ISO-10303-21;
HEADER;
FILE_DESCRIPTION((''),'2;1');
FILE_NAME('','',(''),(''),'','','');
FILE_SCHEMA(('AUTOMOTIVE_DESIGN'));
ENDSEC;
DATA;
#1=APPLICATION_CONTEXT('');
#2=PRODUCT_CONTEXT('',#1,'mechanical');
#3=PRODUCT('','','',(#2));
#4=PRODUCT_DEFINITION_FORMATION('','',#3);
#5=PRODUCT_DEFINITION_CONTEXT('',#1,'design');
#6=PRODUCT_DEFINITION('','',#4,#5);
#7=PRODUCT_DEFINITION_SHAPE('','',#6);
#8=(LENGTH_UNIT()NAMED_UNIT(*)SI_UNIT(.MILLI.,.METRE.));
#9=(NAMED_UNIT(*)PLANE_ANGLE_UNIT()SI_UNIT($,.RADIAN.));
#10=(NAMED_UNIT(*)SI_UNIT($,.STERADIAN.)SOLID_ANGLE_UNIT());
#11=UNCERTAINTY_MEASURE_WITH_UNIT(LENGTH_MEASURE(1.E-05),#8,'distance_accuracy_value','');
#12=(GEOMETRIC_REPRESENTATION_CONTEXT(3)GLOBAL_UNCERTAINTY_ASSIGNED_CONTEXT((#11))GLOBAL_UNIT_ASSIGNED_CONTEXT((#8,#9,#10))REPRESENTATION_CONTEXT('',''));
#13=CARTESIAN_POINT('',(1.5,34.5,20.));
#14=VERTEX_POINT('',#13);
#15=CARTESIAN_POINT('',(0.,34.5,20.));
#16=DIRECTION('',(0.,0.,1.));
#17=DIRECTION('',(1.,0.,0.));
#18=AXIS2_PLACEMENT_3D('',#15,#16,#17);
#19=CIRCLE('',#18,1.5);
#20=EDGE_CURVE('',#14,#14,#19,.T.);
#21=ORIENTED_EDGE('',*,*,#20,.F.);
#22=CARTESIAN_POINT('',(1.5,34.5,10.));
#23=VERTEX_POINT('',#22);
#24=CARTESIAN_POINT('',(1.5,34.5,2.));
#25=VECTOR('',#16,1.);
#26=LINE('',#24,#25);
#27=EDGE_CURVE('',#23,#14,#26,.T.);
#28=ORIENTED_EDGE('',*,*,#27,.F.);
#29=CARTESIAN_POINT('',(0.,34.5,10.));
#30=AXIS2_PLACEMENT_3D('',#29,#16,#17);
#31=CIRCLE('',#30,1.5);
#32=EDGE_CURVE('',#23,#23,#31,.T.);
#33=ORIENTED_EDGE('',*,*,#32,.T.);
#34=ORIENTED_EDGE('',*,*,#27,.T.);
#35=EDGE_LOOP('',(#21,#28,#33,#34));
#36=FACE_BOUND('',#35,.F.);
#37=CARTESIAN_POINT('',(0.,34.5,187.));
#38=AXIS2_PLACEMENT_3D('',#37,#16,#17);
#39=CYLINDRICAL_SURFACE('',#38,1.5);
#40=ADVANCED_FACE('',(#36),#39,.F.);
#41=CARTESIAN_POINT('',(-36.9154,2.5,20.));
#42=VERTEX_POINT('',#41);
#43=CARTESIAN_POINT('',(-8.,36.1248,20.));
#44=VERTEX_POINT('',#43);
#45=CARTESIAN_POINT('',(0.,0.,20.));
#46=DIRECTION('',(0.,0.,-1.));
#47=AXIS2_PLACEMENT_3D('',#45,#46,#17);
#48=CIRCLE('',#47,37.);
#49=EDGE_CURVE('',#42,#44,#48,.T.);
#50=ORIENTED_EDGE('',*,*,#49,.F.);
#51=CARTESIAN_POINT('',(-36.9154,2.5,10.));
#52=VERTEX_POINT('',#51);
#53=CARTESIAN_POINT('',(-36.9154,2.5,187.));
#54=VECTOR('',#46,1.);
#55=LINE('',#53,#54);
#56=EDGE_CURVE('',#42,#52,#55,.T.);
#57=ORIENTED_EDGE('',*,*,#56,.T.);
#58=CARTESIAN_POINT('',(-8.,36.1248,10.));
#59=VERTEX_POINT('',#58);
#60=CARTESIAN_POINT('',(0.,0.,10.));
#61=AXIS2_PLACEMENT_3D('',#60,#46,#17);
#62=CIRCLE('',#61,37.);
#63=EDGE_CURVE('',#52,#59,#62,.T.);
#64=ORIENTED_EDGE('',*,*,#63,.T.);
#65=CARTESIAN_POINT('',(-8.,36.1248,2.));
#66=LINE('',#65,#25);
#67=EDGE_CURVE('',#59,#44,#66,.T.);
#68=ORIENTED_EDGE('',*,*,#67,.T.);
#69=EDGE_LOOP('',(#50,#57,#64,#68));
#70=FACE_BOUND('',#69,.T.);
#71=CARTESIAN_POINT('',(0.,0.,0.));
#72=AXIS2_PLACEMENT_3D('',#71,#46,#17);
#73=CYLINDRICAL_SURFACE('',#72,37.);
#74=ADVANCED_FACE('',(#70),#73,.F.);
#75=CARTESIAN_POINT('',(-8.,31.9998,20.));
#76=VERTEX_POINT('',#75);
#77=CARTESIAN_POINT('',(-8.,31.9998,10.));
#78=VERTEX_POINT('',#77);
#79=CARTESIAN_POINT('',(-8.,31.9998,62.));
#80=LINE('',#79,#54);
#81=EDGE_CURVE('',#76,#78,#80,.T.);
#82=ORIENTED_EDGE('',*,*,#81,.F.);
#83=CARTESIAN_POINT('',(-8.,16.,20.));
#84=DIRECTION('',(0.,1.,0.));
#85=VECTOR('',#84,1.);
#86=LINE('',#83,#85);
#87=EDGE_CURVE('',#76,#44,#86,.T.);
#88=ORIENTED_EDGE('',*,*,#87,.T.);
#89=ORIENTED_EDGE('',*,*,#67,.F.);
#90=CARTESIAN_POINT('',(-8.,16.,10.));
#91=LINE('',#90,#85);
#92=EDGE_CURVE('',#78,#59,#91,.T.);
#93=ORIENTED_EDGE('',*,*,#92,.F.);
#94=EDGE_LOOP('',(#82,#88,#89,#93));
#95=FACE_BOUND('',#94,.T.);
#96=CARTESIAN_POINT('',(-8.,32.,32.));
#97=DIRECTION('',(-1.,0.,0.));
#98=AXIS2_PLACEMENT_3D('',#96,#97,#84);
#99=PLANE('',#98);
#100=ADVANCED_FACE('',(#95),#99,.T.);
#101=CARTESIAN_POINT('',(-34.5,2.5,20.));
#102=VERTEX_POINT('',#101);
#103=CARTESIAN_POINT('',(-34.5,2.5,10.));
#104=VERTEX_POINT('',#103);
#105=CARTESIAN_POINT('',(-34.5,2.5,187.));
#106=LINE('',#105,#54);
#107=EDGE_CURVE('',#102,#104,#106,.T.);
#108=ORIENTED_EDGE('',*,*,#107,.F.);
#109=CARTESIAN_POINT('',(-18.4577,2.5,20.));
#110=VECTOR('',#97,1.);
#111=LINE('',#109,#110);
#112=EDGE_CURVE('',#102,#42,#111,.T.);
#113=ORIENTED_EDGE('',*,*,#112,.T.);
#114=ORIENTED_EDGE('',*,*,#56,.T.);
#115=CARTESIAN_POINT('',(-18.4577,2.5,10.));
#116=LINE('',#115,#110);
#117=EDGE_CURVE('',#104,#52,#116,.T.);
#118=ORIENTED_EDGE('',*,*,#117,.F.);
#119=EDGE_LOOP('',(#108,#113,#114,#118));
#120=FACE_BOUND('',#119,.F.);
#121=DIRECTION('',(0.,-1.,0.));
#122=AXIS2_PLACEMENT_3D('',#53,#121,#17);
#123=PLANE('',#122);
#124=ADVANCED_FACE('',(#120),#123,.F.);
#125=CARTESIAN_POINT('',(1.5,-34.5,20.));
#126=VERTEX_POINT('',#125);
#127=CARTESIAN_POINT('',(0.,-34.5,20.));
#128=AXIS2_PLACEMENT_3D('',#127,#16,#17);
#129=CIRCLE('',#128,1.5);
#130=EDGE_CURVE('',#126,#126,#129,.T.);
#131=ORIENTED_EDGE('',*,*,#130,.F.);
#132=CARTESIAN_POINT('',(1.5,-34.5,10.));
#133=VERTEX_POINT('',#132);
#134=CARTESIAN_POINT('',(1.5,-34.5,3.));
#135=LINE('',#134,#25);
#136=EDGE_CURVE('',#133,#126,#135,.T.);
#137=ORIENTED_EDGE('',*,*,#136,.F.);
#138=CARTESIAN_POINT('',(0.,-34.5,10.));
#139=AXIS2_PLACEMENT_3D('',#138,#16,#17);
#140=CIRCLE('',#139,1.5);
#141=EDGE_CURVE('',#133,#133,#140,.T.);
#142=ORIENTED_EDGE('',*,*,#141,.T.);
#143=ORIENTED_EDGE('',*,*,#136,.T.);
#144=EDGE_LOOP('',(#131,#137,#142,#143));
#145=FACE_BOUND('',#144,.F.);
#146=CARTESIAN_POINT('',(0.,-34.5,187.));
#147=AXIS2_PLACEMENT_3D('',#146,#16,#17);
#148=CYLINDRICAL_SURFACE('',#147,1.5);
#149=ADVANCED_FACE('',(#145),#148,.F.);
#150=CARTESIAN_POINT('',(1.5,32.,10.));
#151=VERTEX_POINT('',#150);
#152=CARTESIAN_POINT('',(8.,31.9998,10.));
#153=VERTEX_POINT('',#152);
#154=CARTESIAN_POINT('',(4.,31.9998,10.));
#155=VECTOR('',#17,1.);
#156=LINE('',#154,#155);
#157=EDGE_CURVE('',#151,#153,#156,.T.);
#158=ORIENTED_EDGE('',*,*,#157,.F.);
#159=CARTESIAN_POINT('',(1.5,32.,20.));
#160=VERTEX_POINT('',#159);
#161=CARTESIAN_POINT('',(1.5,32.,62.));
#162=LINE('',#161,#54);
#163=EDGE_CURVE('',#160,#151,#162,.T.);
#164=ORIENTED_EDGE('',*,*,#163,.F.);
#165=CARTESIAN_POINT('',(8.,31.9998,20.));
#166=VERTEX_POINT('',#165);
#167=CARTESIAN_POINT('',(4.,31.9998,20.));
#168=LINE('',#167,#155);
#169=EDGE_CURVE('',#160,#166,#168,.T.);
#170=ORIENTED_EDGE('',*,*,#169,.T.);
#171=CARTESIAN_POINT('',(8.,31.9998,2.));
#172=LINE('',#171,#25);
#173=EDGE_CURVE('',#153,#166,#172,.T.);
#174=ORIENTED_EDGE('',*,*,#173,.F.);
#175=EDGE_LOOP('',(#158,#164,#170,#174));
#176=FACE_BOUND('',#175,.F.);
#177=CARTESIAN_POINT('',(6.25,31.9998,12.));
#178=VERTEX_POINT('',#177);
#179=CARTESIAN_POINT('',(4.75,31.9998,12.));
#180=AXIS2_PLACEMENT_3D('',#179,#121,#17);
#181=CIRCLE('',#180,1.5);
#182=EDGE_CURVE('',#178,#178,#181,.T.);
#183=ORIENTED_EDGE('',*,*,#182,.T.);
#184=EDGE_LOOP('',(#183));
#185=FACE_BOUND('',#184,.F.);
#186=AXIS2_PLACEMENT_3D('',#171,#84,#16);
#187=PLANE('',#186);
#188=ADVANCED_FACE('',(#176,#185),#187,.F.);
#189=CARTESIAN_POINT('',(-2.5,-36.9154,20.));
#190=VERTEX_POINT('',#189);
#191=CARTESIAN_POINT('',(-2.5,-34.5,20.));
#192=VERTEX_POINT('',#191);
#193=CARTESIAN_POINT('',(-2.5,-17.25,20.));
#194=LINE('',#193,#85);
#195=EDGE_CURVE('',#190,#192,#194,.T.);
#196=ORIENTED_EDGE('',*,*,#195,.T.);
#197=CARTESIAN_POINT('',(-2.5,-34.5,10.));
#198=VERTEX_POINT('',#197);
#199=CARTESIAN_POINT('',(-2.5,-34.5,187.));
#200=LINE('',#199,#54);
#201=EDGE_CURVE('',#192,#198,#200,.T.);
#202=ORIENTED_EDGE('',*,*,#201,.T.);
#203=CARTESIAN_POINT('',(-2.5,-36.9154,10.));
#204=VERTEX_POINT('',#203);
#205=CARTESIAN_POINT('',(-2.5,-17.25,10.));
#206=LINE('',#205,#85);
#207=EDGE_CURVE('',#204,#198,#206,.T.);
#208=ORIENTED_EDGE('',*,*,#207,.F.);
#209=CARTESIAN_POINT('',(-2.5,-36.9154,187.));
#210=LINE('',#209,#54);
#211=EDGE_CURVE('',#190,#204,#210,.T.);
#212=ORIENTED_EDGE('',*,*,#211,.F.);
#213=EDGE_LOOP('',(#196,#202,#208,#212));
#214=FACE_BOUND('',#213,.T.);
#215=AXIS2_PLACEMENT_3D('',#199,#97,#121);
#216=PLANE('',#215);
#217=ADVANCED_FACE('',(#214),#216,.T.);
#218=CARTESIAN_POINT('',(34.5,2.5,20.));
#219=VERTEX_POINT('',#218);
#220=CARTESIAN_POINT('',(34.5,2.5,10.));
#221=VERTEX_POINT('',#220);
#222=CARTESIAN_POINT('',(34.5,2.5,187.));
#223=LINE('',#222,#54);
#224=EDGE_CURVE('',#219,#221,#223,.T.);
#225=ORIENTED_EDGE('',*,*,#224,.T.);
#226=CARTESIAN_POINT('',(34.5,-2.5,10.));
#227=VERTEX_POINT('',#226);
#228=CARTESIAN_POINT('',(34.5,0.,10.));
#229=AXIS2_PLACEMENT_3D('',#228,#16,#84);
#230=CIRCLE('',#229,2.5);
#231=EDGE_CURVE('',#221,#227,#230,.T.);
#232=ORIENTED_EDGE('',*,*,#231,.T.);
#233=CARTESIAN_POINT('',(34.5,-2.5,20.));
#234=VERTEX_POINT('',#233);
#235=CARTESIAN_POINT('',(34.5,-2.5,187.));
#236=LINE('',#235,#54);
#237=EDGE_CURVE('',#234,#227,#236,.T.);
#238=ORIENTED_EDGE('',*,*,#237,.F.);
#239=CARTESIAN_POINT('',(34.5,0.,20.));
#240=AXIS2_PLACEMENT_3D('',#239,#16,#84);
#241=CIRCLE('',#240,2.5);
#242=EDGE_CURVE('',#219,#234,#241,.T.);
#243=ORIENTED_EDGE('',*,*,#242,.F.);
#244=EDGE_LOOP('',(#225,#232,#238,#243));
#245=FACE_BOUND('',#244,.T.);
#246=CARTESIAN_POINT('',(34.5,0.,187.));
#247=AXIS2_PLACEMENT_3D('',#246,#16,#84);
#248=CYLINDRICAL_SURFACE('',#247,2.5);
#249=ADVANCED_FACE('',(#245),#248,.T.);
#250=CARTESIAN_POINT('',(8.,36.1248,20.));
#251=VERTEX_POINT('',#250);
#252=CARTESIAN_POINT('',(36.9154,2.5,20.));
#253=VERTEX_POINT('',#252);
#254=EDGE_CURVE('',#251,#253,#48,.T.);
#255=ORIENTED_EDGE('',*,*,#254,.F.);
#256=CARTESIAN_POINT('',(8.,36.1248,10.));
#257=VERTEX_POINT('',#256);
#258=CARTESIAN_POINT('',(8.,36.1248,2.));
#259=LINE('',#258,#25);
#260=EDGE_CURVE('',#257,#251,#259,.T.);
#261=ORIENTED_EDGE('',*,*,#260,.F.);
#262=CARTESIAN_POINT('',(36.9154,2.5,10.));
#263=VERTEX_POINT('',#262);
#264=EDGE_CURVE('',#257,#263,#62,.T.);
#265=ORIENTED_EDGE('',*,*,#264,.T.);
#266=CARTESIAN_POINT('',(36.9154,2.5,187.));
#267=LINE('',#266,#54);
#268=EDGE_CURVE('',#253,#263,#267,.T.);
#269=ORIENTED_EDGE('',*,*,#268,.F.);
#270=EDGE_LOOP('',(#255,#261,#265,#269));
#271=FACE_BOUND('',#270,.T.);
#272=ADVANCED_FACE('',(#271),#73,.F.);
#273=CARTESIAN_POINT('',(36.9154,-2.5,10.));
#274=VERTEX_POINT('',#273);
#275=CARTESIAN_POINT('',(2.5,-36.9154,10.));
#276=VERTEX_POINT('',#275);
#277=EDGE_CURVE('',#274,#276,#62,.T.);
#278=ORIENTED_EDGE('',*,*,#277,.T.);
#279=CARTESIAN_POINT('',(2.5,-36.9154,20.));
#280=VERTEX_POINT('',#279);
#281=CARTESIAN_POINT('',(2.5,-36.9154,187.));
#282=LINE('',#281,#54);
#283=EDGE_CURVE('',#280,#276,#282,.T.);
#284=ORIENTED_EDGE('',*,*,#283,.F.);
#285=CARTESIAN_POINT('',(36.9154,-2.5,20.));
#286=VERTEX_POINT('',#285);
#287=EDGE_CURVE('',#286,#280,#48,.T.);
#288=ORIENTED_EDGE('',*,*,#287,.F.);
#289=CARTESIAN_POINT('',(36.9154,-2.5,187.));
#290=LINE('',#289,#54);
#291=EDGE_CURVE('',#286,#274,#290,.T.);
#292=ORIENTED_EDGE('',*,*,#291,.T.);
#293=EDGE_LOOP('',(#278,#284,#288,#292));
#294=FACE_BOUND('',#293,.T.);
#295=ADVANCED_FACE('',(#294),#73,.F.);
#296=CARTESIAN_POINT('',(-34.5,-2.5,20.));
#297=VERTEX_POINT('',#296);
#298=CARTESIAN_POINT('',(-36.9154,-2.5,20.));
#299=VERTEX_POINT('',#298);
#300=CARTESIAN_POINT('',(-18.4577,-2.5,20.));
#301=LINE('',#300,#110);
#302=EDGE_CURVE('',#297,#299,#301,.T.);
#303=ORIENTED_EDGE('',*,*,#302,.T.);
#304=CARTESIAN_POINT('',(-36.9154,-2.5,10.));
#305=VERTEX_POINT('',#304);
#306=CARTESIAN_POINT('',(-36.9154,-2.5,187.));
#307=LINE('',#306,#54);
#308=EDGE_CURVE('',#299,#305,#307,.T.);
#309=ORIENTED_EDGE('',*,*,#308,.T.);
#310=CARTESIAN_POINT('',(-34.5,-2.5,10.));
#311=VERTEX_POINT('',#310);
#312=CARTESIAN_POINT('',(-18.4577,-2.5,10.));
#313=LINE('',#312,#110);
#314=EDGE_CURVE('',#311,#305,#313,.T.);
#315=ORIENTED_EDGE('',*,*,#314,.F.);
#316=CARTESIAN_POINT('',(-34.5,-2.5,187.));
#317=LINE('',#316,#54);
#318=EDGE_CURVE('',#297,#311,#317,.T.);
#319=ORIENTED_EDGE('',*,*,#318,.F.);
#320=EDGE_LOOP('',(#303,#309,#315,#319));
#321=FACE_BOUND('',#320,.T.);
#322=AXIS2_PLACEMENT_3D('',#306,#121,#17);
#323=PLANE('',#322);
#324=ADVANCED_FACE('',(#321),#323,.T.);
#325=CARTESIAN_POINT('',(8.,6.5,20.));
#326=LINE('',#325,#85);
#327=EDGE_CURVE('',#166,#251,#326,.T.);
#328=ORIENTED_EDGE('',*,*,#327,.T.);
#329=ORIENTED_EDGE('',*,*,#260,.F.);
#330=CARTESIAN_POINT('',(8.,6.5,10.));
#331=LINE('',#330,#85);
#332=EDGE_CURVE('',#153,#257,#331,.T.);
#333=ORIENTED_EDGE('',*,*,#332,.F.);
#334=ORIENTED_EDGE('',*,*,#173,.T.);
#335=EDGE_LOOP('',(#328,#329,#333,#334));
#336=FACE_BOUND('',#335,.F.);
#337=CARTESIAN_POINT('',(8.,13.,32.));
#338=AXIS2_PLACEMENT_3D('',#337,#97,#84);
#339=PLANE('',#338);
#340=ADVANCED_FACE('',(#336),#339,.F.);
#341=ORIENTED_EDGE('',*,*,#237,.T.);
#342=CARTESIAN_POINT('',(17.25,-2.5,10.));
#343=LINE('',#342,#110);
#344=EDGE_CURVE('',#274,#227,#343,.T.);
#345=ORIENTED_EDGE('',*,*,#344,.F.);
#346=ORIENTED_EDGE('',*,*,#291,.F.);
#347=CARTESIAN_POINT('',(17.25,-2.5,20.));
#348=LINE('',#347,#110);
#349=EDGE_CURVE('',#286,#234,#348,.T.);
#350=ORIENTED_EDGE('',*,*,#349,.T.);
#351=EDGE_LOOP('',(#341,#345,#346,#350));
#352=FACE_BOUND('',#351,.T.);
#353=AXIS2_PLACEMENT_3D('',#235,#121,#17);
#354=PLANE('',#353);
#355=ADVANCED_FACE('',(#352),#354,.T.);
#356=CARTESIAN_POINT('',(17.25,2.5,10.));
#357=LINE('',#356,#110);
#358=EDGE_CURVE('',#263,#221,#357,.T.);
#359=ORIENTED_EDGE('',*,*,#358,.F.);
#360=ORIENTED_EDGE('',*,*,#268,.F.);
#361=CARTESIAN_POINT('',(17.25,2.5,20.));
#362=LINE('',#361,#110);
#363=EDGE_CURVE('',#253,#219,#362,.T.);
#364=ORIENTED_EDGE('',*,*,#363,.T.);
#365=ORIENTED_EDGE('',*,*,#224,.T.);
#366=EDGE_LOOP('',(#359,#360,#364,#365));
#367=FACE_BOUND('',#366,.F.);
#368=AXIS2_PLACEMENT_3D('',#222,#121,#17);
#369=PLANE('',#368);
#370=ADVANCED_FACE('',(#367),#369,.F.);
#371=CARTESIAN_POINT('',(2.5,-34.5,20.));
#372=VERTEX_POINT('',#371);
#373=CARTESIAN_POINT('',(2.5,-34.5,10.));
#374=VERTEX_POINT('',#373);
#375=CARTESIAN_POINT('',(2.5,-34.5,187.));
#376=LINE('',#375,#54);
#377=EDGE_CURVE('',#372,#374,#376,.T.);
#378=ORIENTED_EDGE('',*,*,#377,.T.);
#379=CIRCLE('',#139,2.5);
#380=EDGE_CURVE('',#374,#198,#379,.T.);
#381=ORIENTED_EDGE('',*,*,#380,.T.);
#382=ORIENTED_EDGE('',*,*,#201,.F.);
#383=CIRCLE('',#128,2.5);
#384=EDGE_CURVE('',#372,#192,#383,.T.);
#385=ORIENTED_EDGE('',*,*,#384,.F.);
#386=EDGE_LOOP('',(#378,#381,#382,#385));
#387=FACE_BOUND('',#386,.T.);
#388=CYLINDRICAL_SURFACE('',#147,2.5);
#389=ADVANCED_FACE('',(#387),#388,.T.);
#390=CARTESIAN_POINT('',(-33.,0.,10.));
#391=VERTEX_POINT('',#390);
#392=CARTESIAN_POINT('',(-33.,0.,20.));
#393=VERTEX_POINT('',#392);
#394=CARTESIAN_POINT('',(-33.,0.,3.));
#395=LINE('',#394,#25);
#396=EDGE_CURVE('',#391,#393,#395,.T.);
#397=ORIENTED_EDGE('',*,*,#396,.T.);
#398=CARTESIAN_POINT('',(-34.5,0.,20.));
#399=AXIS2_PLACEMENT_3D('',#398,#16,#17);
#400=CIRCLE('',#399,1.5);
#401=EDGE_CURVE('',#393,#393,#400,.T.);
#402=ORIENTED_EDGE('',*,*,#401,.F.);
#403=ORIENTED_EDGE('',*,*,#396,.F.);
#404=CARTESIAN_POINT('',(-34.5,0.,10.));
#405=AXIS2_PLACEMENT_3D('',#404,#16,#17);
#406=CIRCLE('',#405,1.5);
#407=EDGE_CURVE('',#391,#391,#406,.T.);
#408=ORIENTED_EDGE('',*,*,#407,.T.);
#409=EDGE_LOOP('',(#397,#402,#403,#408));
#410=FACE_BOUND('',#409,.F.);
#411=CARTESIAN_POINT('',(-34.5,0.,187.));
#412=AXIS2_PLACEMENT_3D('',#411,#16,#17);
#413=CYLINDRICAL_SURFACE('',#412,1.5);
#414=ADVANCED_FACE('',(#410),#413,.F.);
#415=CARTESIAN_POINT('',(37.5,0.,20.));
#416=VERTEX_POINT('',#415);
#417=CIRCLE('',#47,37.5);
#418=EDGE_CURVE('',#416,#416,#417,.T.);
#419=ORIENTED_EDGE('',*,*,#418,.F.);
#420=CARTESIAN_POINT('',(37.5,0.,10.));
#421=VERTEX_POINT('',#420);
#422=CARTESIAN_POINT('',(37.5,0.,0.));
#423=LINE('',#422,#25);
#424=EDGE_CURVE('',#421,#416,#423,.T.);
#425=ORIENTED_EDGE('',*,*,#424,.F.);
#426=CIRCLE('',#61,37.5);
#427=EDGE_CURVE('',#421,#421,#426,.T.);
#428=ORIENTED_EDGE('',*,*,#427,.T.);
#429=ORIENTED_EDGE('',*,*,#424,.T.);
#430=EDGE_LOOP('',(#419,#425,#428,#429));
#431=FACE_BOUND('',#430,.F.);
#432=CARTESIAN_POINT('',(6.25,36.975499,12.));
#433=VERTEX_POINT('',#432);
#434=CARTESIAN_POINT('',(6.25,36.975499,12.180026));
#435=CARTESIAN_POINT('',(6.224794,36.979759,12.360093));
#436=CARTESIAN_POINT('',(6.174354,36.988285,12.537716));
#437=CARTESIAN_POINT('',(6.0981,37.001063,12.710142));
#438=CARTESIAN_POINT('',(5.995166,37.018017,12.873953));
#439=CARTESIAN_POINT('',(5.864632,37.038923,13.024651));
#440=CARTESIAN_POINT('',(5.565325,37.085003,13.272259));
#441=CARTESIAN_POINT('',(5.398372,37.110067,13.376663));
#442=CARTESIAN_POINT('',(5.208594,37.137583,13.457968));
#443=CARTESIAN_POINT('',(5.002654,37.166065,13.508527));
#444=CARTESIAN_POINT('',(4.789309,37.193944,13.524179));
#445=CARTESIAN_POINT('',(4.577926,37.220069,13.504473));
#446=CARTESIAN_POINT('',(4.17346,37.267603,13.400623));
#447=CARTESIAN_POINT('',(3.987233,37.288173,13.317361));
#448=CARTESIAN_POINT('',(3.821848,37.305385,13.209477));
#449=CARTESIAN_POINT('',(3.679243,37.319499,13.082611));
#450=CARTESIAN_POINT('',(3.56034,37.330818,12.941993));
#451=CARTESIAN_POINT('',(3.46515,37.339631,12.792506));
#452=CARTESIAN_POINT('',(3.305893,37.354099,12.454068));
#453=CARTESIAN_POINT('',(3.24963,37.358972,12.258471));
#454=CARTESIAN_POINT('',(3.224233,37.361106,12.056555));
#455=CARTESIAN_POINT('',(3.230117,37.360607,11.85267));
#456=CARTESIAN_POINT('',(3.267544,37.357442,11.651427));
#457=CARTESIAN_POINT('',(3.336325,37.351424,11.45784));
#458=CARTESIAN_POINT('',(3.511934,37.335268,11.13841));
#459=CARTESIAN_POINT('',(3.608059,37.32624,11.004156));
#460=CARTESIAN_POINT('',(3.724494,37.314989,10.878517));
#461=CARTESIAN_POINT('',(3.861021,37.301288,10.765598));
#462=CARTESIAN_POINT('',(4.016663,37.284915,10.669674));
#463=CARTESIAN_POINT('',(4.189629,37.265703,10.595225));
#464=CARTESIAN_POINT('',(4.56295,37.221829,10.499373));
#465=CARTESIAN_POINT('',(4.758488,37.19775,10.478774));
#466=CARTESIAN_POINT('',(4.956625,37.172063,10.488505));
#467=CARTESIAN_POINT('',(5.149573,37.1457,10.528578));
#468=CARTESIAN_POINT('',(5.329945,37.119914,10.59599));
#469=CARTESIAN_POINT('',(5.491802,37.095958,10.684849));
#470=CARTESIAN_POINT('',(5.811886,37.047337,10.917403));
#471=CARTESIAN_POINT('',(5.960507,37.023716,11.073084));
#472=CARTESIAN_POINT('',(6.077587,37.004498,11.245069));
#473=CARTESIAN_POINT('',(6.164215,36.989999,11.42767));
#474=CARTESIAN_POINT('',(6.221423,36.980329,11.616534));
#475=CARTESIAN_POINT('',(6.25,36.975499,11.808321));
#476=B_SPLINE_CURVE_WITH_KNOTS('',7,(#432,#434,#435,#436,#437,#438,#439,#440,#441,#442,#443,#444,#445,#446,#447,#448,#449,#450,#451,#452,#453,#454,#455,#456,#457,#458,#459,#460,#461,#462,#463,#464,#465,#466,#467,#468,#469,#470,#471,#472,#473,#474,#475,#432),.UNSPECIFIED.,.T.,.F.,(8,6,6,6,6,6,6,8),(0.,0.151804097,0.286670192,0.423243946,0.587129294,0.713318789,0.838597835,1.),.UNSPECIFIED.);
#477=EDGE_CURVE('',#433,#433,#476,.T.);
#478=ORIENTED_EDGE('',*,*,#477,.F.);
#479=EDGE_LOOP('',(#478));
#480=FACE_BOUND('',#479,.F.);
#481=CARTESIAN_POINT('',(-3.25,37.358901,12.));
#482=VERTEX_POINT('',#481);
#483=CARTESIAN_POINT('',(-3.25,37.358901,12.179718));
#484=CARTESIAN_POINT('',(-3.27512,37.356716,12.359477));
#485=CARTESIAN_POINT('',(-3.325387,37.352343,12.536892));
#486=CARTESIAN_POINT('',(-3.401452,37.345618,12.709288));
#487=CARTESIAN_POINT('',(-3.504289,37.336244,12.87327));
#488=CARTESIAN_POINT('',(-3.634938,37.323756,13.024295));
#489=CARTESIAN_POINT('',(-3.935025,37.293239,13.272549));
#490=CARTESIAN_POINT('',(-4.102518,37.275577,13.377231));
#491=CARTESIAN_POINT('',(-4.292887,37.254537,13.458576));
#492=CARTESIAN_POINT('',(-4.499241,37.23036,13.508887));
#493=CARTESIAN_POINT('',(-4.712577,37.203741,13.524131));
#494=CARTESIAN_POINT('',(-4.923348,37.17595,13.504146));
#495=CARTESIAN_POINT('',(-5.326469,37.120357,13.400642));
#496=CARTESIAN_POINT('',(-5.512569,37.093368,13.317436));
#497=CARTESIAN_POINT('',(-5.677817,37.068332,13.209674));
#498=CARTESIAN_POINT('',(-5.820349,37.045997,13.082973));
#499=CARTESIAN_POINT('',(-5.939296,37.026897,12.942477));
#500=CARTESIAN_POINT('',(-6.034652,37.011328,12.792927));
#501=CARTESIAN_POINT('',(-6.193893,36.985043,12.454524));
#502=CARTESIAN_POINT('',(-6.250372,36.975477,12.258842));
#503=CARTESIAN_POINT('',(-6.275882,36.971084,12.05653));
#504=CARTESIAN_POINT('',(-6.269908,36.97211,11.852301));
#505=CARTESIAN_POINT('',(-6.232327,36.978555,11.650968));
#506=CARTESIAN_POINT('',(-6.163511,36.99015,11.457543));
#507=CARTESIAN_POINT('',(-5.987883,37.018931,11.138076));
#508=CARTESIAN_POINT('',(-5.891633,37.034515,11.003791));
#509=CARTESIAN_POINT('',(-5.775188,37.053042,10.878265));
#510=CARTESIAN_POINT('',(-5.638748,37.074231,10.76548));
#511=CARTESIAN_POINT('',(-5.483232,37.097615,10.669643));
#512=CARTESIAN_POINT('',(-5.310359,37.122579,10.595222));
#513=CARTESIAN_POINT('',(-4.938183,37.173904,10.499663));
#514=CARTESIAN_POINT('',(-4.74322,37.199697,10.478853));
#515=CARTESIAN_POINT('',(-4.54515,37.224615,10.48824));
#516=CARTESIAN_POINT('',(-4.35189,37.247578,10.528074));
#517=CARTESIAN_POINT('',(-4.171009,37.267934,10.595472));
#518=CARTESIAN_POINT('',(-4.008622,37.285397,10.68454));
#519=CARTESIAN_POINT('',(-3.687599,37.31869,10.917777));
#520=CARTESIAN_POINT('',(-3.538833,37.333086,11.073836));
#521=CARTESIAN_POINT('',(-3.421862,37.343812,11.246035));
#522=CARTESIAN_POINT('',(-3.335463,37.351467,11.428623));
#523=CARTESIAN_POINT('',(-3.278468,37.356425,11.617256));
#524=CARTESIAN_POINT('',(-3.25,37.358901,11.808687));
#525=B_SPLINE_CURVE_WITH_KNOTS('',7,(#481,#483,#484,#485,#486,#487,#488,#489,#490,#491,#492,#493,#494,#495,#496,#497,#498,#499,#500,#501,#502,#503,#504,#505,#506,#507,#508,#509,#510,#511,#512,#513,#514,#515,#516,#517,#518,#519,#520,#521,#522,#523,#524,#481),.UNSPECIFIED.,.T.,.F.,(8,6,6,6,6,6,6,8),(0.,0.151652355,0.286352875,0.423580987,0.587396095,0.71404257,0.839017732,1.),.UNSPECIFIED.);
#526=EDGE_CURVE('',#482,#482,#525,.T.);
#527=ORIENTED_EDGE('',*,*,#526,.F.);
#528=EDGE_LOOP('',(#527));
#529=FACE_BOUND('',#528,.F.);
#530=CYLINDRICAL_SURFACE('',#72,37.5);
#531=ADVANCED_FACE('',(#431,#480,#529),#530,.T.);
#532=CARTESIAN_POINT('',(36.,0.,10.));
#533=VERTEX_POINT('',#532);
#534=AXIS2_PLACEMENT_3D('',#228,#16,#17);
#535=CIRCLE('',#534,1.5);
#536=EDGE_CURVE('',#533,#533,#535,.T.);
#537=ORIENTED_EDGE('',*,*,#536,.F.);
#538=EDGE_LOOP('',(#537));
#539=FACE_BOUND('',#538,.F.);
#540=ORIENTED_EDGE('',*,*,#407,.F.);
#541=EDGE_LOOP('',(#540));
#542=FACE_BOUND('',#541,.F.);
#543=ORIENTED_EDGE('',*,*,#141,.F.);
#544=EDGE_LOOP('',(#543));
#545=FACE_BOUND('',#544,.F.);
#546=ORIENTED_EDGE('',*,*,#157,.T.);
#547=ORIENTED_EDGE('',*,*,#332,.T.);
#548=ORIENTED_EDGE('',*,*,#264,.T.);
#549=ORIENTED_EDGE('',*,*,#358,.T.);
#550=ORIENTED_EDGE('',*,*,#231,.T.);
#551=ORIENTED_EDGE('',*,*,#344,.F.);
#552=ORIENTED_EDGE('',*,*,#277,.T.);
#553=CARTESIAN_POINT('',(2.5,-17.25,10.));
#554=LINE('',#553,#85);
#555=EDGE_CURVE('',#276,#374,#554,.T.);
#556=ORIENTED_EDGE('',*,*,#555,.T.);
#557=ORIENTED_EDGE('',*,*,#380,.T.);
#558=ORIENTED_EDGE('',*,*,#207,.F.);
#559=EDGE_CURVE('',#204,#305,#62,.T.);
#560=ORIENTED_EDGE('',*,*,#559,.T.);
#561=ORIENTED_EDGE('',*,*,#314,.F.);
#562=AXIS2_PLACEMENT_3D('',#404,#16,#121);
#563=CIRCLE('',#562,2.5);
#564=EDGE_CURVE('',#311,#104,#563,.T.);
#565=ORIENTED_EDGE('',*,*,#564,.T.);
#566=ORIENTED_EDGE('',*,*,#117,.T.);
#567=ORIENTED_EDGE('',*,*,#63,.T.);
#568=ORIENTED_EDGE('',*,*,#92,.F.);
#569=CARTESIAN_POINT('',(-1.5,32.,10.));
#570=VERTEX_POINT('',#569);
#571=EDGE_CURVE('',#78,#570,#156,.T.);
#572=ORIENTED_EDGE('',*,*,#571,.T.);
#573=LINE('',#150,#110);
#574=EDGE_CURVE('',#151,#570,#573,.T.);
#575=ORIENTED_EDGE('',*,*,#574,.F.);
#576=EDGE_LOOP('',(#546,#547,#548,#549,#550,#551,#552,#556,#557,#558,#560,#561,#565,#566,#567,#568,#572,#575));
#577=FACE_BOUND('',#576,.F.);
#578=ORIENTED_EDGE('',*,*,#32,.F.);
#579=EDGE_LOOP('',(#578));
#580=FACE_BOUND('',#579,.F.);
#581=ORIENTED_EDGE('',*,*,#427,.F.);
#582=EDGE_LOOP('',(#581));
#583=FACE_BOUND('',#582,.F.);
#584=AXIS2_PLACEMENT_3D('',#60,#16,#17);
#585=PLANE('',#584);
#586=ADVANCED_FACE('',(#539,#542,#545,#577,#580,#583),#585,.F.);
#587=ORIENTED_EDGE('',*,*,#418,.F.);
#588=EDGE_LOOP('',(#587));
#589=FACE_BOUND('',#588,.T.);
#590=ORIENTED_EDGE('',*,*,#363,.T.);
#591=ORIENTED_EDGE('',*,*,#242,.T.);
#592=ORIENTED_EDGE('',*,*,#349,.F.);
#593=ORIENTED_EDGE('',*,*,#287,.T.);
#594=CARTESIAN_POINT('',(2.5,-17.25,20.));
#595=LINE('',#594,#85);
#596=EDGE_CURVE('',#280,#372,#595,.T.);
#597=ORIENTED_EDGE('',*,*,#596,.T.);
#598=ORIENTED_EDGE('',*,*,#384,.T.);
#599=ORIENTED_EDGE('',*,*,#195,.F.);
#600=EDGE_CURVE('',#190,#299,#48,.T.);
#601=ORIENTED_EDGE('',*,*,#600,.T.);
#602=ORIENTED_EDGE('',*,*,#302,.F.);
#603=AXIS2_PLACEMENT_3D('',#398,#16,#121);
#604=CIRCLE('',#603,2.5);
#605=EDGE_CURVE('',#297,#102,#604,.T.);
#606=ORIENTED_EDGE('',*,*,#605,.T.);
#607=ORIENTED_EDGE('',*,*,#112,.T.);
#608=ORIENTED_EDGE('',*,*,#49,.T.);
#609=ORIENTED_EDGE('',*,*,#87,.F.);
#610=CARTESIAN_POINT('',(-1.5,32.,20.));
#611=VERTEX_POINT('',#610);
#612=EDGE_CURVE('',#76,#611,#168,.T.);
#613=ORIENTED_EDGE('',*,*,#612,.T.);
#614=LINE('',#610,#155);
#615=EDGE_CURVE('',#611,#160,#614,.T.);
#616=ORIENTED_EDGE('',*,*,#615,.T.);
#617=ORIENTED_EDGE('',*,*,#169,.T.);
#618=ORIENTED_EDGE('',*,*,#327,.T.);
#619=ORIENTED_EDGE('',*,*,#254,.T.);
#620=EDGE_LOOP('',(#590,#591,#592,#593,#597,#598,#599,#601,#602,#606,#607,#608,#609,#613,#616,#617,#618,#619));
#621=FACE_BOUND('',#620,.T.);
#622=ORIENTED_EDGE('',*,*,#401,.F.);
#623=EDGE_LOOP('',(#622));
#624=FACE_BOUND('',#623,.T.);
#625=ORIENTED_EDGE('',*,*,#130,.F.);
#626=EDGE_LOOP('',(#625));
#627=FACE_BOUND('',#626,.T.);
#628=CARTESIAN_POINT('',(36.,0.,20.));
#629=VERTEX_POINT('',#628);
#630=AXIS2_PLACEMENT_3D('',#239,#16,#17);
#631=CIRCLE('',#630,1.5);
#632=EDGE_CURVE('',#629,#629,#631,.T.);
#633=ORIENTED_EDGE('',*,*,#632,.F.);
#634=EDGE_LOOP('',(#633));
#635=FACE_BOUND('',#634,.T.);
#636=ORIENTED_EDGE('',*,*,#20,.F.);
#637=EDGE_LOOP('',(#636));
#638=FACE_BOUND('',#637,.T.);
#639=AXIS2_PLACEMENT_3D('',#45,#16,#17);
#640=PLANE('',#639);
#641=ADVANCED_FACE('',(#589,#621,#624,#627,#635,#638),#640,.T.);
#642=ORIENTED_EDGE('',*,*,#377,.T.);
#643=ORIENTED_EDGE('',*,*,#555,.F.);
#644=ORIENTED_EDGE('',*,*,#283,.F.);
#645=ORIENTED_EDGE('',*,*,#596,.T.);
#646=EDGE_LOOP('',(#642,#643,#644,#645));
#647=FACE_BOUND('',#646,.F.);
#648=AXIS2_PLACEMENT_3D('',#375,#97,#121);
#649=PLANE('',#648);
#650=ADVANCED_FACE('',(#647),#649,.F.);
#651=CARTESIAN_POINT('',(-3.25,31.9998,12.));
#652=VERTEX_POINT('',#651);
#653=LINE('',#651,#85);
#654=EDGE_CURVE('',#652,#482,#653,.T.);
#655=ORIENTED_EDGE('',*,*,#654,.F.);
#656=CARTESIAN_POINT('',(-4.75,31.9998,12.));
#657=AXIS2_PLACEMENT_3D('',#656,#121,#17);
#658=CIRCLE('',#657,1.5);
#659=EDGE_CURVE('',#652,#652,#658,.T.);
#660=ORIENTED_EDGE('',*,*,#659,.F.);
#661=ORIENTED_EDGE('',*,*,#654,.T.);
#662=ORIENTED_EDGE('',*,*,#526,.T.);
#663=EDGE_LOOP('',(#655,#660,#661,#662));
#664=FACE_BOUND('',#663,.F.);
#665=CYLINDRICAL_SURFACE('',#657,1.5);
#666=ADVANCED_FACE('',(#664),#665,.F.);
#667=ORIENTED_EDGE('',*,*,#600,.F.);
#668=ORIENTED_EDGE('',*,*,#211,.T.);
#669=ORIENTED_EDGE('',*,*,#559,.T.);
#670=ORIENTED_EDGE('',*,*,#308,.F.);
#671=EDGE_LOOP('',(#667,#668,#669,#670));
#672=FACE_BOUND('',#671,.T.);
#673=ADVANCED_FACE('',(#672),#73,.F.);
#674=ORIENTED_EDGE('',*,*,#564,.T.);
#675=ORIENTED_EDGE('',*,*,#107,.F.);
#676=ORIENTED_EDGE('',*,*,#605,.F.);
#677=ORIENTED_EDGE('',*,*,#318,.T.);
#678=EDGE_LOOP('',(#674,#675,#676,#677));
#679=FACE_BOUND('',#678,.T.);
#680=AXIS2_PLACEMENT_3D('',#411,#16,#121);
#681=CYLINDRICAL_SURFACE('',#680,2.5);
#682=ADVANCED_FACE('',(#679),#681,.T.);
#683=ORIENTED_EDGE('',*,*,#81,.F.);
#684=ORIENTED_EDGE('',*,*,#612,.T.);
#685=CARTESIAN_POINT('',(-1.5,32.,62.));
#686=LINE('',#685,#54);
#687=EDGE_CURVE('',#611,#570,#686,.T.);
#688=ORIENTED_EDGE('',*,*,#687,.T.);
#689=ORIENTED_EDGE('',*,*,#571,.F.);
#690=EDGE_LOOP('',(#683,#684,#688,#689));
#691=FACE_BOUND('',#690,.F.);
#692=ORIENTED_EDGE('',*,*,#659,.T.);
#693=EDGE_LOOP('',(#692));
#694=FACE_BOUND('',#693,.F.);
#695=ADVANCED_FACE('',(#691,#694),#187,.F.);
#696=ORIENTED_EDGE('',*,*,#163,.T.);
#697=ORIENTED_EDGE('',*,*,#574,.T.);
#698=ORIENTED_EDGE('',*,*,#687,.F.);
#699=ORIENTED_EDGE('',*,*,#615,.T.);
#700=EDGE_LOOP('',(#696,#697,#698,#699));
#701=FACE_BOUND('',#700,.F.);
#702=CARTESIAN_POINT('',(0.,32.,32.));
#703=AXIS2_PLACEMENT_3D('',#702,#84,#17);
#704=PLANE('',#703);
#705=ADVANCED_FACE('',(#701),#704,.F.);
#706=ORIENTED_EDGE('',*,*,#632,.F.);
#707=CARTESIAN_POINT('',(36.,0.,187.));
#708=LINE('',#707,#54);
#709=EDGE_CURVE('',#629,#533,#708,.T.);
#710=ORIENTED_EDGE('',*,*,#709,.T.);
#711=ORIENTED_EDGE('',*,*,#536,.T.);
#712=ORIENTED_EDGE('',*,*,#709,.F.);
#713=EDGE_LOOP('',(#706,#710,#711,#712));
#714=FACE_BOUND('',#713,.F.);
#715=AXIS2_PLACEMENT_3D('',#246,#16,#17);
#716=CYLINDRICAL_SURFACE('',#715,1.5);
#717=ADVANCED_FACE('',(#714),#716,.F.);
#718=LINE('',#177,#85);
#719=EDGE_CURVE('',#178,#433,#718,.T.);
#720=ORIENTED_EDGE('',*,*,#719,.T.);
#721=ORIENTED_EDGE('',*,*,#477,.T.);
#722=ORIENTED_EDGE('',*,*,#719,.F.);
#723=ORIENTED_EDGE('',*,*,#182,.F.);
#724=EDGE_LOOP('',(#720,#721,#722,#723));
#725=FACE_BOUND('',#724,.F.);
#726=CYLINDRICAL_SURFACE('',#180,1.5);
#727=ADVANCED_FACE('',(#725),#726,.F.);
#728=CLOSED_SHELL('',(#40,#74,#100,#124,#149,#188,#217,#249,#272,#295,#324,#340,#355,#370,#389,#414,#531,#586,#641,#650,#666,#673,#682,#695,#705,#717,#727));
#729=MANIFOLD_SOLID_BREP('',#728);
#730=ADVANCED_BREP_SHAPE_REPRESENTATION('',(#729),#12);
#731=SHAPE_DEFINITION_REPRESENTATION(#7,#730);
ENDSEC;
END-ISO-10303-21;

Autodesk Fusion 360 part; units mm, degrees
sketch "Esboço2" plane through (0, 0, 0) normal (0, 0, 1) x (1, 0, 0)
  circle A0 centre (0, 0) radius 37.5
  circle A1 centre (0, 0) radius 37
  dimension "d6" = 75
  dimension "d7" = 74
extrude "Extrusão2" add sketch "Esboço2" along normal blind 190
ref_plane "Plano de trabalho9" through (0, 0, 187) normal (0, 0, 1) x (1, 0, 0)
sketch "Esboço10" plane through (0, 0, 187) normal (0, 0, 1) x (1, 0, 0)
  circle A0 centre (0, 0) radius 34.5 construction
  line L0 (0, 0) -> (-68.1762, 0) construction
  line L1 (0, 0) -> (60, 0) construction
  line L2 (0, 0) -> (0, 45) construction
  line L3 (0, 0) -> (0, -43.1659) construction
  circle A1 centre (34.5, 0) radius 1.5
  line L4 (3, -43) -> (3, -42)
  circle A2 centre (0, 34.5) radius 1.5
  circle A3 centre (-34.5, 0) radius 1.5
  circle A4 centre (0, -34.5) radius 1.5
  arc A5 (34.5, 2.5) -> (34.5, -2.5) centre (34.5, 0) ccw
  arc A6 (-2.5, 34.5) -> (2.5, 34.5) centre (0, 34.5) ccw
  arc A7 (-34.5, -2.5) -> (-34.5, 2.5) centre (-34.5, 0) ccw
  arc A8 (2.5, -34.5) -> (-2.5, -34.5) centre (0, -34.5) ccw
  circle A9 centre (0, 0) radius 37
  line L5 (-36.9154, 2.5) -> (-34.4093, 2.5)
  line L6 (-36.9154, -2.5) -> (-34.4093, -2.5)
  line L7 (34.5, 2.5) -> (36.9154, 2.5)
  line L8 (34.5, -2.5) -> (36.9154, -2.5)
  line L9 (2.5, 36.9154) -> (2.5, 34.4093)
  line L10 (-2.5, 36.9154) -> (-2.5, 34.4093)
  line L11 (-2.5, -34.4093) -> (-2.5, -36.9154)
  line L12 (2.5, -34.4093) -> (2.5, -36.9154)
  dimension "d82" = 69
  dimension "d83" = 3
  dimension "d84" = 2.5
  dimension "d85" = 2.5
  dimension "d87" = 360
  dimension "d89" = 360
  dimension "d90" = 2.5
extrude "Extrusão12" add sketch "Esboço10" against normal blind 184 contours A5 A9 L7 L8 | A6 A9 L9 L10 | A8 A9 L11 L12 | A7 A9 L5 L6
thread "Rosca3"
ref_plane "Plano de trabalho3" through (0, 0, 32) normal (0, 0, 1) x (1, 0, 0)
sketch "Esboço3" plane through (0, 0, 32) normal (0, 0, 1) x (1, 0, 0)
  line L0 (0, 0) -> (0, 37) construction
  line L1 (34.2491, 14) -> (-34.2491, 14)
  circle A0 centre (0, 0) radius 37
  line L2 (31.1288, 20) -> (-31.1288, 20)
  line L3 (32.8634, 17) -> (-32.8634, 17)
  circle A1 centre (0, 0) radius 50
  circle A2 centre (0, 0) radius 37.5
  line L4 (-8, 0) -> (8, 0)
  line L5 (8, 0) -> (8, 36.1248)
  line L6 (-8, 0) -> (-8, 36.1248)
  circle A3 centre (0, 34.5) radius 1.5
  line L7 (1.5, 32.5) -> (1.5, 0)
  arc A4 (-2.5, 34.5) -> (2.5, 34.5) centre (0, 34.5) ccw
  line L8 (-1.5, 32.5) -> (-1.5, 0)
  line L9 (27.8634, 24.3441) -> (27.8634, 11)
  line L10 (27.8634, 11) -> (35.327, 11)
  line L11 (-27.8634, 11) -> (-35.327, 11)
  line L12 (-27.8634, 24.3441) -> (-27.8634, 11)
  line L13 (-30.4631, 21) -> (30.4631, 21)
  line L14 (-34.641, 13) -> (34.641, 13)
  line L15 (0, 32) -> (8, 32)
  line L16 (0, 32) -> (-8, 32)
  dimension "d12" = 6
  dimension "d15" = 3
  dimension "d17" = 75
  dimension "d18" = 100
  dimension "d41" = 14
  dimension "d51" = 8
  dimension "d52" = 16
  dimension "d99" = 3
  dimension "d100" = 2.5
  dimension "d115" = 6.5
  dimension "d123" = 5
  dimension "d124" = 6
  dimension "d143" = 4
  dimension "d144" = 4
extrude "Extrusão21" add sketch "Esboço3" along normal blind 6 and the other way blind 6 contours L1 A0 L9 L14 | L1 A0 L3 L9 | A0 L9 L10 L14 | A0 L2 L3 L9 | A0 L2 L9 L13 | A0 L9 L13 | A0 L11 L12 L14 | L1 A0 L12 L14 | L1 A0 L3 L12 | A0 L2 L3 L12 | A0 L12 L13 | A0 L2 L12 L13
sketch "Esboço18" plane through (-27.8634, 0, 0) normal (1, 0, 0) x (0, 1, 0)
  line L0 (24.3441, 26) -> (24.3441, 38)
  line L1 (24.3441, 38) -> (11, 38)
  line L2 (11, 38) -> (11, 26)
  line L3 (11, 26) -> (24.3441, 26)
  circle A0 centre (17, 32) radius 4
  point P0 (11, 32)
  dimension "d166" = 8
  dimension "d167" = 6
  dimension "d168" = 6
ref_plane "Plano de trabalho11" through (0, 0, 0) normal (1, 0, 0) x (0, 1, 0)
extrude "Extrusão23" cut sketch "Esboço18" against normal blind 15 contours A0
extrude "Extrusão7" add sketch "Esboço3" along normal blind 30 and the other way blind 30 contours L1 L5 L7 L14 | L1 L3 L5 L7 | L4 L5 L7 L14 | L2 L3 L5 L7 | L1 L6 L8 L14 | L1 L3 L6 L8 | L2 L5 L7 L13 | L2 L3 L6 L8 | L4 L6 L8 L14 | L5 L7 L13 L15 | A0 L5 L6 L7 A4 L8 L15 L16 | L2 L6 L8 L13 | L6 L8 L13 L16 | L7 A4 L15 | A4 L8 L16
sketch "Esboço19" plane through (27.8634, 0, 0) normal (-1, 0, 0) x (0, -1, 0)
  line L0 (-11, 26) -> (-11, 38)
  line L1 (-11, 38) -> (-24.3441, 38)
  line L2 (-24.3441, 38) -> (-24.3441, 26)
  line L3 (-24.3441, 26) -> (-11, 26)
extrude "Extrusão24" cut sketch "Esboço18" along normal blind 80 contours A0
sketch "Esboço11" plane through (8, 0, 0) normal (1, 0, 0) x (0, 1, 0)
  line L0 (0, 2) -> (36.1248, 2)
  line L1 (36.1248, 2) -> (36.1248, 62)
  line L2 (36.1248, 62) -> (0, 62)
  line L3 (0, 62) -> (0, 2)
  circle A0 centre (17, 32) radius 3
  circle A1 centre (17, 32) radius 9.5
  circle A2 centre (17, 32) radius 12.5
  line L4 (36.1248, 32) -> (36.1248, -5) construction
  line L5 (0, 32) -> (36.1248, 32)
  line L6 (30.1248, 2) -> (8.3278, 22.9976)
  line L7 (30.1248, 62) -> (8.3278, 41.0024)
  line L8 (30.1248, 2) -> (31.9998, 2)
  line L9 (31.9998, 2) -> (31.9998, 32)
  line L10 (30.1248, 62) -> (31.9998, 62)
  line L11 (31.9998, 62) -> (31.9998, 32)
  circle A3 centre (17, 32) radius 4
  point P0 (14, 32)
  point P1 (20, 32)
  dimension "d106" = 6
  dimension "d107" = 19
  dimension "d109" = 25
  dimension "d110" = 6
  dimension "d147" = 1.875
extrude "Extrusão13" cut sketch "Esboço11" against normal blind 16 contours L0 L3 A2 L5 L6 | L0 A2 L5 L6 L8 L9 | L2 L3 A2 L5 L7 | A1 A2 L5 | A1 A2 L5 | L2 A2 L5 L7 L10 L11 | A1 L5 A3 | A1 L5 A3 | A0 L5 A3 | A0 L5 A3 | A0 L5 | A0 L5
ref_plane "Plano de trabalho4" through (0, 0, 150) normal (0, 0, 1) x (1, 0, 0)
sketch "Esboço4" plane through (0, 0, 150) normal (0, 0, 1) x (1, 0, 0)
  circle A0 centre (0, 0) radius 37
  circle A1 centre (0, 0) radius 50
  circle A2 centre (0, 0) radius 37.5
  line L0 (-20, -31.1288) -> (-20, 31.1288)
  line L1 (-17, -32.8634) -> (-17, 32.8634)
  line L2 (-14, -34.2491) -> (-14, 34.2491)
  line L3 (0, 8) -> (0, -8)
  line L4 (0, 8) -> (-36.1248, 8)
  line L5 (0, -8) -> (-36.1248, -8)
  line L6 (0, 0) -> (-37, 0) construction
  circle A3 centre (-34.5, 0) radius 1.5
  line L7 (0, 1.5) -> (-32.5, 1.5)
  arc A4 (-34.5, -2.5) -> (-34.5, 2.5) centre (-34.5, 0) ccw
  line L8 (0, -1.5) -> (-32.5, -1.5)
  line L9 (-24.3441, -27.8634) -> (-11, -27.8634)
  line L10 (-11, -27.8634) -> (-11, -35.327)
  line L11 (-24.3441, 27.8634) -> (-11, 27.8634)
  line L12 (-11, 27.8634) -> (-11, 35.327)
  line L13 (-13, 34.641) -> (-13, -34.641)
  line L14 (-21, 30.4631) -> (-21, -30.4631)
  line L15 (-32, 0) -> (-32, 8)
  line L16 (-32, 0) -> (-32, -8)
  dimension "d28" = 75
  dimension "d29" = 100
  dimension "d38" = 14
  dimension "d39" = 6
  dimension "d40" = 3
  dimension "d43" = 16
  dimension "d44" = 8
  dimension "d101" = 3
  dimension "d102" = 2.5
  dimension "d116" = 6.5
  dimension "d135" = 6
  dimension "d136" = 5
  dimension "d145" = 4
  dimension "d146" = 4
extrude "Extrusão25" add sketch "Esboço4" along normal blind 6 and the other way blind 6 contours A0 L11 L12 L13 | A0 L9 L10 L13 | A0 L2 L11 L13 | A0 L2 L9 L13 | A0 L1 L2 L11 | A0 L1 L2 L9 | A0 L0 L1 L11 | A0 L0 L1 L9 | A0 L0 L11 L14 | A0 L0 L9 L14 | A0 L11 L14 | A0 L9 L14
sketch "Esboço20" plane through (0, 27.8634, 0) normal (0, -1, 0) x (1, 0, 0)
  line L0 (-11, 144) -> (-11, 156)
  line L1 (-11, 156) -> (-24.3441, 156)
  line L2 (-24.3441, 156) -> (-24.3441, 144)
  line L3 (-24.3441, 144) -> (-11, 144)
  circle A0 centre (-17, 150) radius 4
  dimension "d179" = 8
  dimension "d180" = 6
  dimension "d182" = 6
extrude "Extrusão26" cut sketch "Esboço20" against normal blind 15 contours A0
sketch "Esboço21" plane through (0, -27.8634, 0) normal (0, 1, 0) x (-1, 0, 0)
  line L0 (24.3441, 144) -> (24.3441, 156)
  line L1 (24.3441, 156) -> (11, 156)
  line L2 (11, 156) -> (11, 144)
  line L3 (11, 144) -> (24.3441, 144)
  circle A0 centre (17, 150) radius 4
  dimension "d185" = 8
  dimension "d186" = 6
  dimension "d187" = 6
extrude "Extrusão27" cut sketch "Esboço21" against normal blind 15 contours A0
extrude "Extrusão6" add sketch "Esboço4" along normal blind 30 and the other way blind 30 contours L2 L4 L7 L13 | L3 L4 L7 L13 | L3 L5 L8 L13 | L2 L5 L8 L13 | L1 L2 L4 L7 | L1 L2 L5 L8 | L0 L1 L4 L7 | L0 L1 L5 L8 | L0 L4 L7 L14 | L0 L5 L8 L14 | A0 L4 L5 L7 A4 L8 L15 L16 | L4 L7 L14 L15 | L5 L8 L14 L16 | L7 A4 L15 | A4 L8 L16
sketch "Esboço13" plane through (0, -8, 0) normal (0, -1, 0) x (1, 0, 0)
  line L0 (0, 120) -> (0, 180)
  line L1 (0, 180) -> (-36.1248, 180)
  line L2 (-36.1248, 180) -> (-36.1248, 120)
  line L3 (-36.1248, 120) -> (0, 120)
  circle A0 centre (-17, 150) radius 3
  circle A1 centre (-17, 150) radius 9.5
  circle A2 centre (-17, 150) radius 12.5
  line L4 (-36.1248, 150) -> (-36.1248, 198.4836) construction
  line L5 (-30.1248, 180) -> (-6.6704, 157.4058)
  line L6 (0, 150) -> (-36.1248, 150)
  line L7 (-30.1248, 120) -> (-6.6704, 142.5942)
  line L8 (-30.1248, 180) -> (-31.9998, 180)
  line L9 (-31.9998, 180) -> (-31.9998, 150)
  line L10 (-30.1248, 120) -> (-31.9998, 120)
  line L11 (-31.9998, 120) -> (-31.9998, 150)
  point P0 (-14, 150)
  point P1 (-20, 150)
  dimension "d117" = 6
  dimension "d118" = 19
  dimension "d119" = 25
  dimension "d120" = 6
  dimension "d148" = 1.875
extrude "Extrusão14" cut sketch "Esboço13" against normal blind 16 contours L0 L3 A2 L6 L7 | L0 L1 A2 L5 L6 | L3 A2 L6 L7 L10 L11 | A1 A2 L6 | A1 A2 L6 | L1 A2 L5 L6 L8 L9 | A0 A1 L6 | A0 A1 L6 | A0 L6 | A0 L6
ref_plane "Plano de trabalho5" through (0, 0, 0) normal (1, 0, 0) x (0, 1, 0)
ref_plane "Plano de trabalho6" through (0, 0, 0) normal (0, 1, 0) x (0, 0, 1)
ref_plane "Plano de trabalho7" through (0, 0, 134.3) normal (0, 0, 1) x (1, 0, 0)
sketch "Esboço8" plane through (0, 0, 134.3) normal (0, 0, 1) x (1, 0, 0)
  line L0 (46.3444, 0) -> (0, 0) construction
  line L1 (8, 36.1248) -> (8, -36.1248)
  line L2 (-8, -36.1248) -> (-8, 36.1248)
  circle A0 centre (0, 0) radius 37
  line L3 (0, 0) -> (0, 37) construction
  circle A1 centre (0, 34.5) radius 1.5
  circle A2 centre (0, -34.5) radius 1.5
  dimension "d72" = 8
  dimension "d73" = 8
  dimension "d95" = 2.5
  dimension "d96" = 3
extrude "Extrusão10" add sketch "Esboço8" along normal blind 2 contours L1 L2 A0
ref_plane "Plano de trabalho8" through (0, 0, 45.7) normal (0, 0, 1) x (1, 0, 0)
sketch "Esboço9" plane through (0, 0, 45.7) normal (0, 0, 1) x (1, 0, 0)
  line L0 (0, 0) -> (-37, 0) construction
  line L1 (-36.1248, 8) -> (36.1248, 8)
  line L2 (-36.1248, -8) -> (36.1248, -8)
  circle A0 centre (0, 0) radius 37
  circle A1 centre (-34.5, 0) radius 1.5
  line L3 (0, 0) -> (0, 43.2459) construction
  circle A2 centre (34.5, 0) radius 1.5
  dimension "d77" = 8
  dimension "d78" = 8
  dimension "d97" = 3
  dimension "d98" = 2.5
extrude "Extrusão11" add sketch "Esboço9" along normal blind 2 contours L1 L2 A0
ref_plane "Plano de trabalho10" through (8, 18.0624, 32) normal (1, 0, 0) x (0, 1, 0)
sketch "Esboço16" plane through (-31.9998, 0, 0) normal (1, 0, 0) x (0, 1, 0)
  line L0 (1.5, 180) -> (1.5, 120)
  line L1 (1.5, 120) -> (8, 120)
  line L2 (8, 120) -> (8, 180)
  line L3 (8, 180) -> (1.5, 180)
  line L4 (4.75, 180) -> (4.75, 120) construction
  circle A0 centre (4.75, 170) radius 1.5
  circle A1 centre (4.75, 130) radius 1.5
  line L5 (8, 150) -> (-12.335, 150) construction
  line L6 (0, 2.5) -> (0, 20)
  circle A2 centre (-4.75, 170) radius 1.5
  circle A3 centre (-4.75, 130) radius 1.5
  dimension "d149" = 3
  dimension "d150" = 3
  dimension "d151" = 40
  dimension "d152" = 20
extrude "Extrusão19" cut sketch "Esboço16" against normal blind 10 contours A0 | A1 | A2 | A3
sketch "Esboço17" plane through (0, 31.9998, 0) normal (0, -1, 0) x (1, 0, 0)
  line L0 (1.5, 62) -> (1.5, 2)
  line L1 (1.5, 2) -> (8, 2)
  line L2 (8, 2) -> (8, 62)
  line L3 (8, 62) -> (1.5, 62)
  line L4 (4.75, 2) -> (4.75, 62) construction
  line L5 (8, 32) -> (-12, 32) construction
  circle A0 centre (4.75, 52) radius 1.5
  circle A1 centre (4.75, 12) radius 1.5
  line L6 (0, 1.75) -> (0, 22.5)
  circle A2 centre (-4.75, 12) radius 1.5
  circle A3 centre (-4.75, 52) radius 1.5
  dimension "d155" = 3
  dimension "d156" = 3
  dimension "d157" = 40
  dimension "d158" = 20
extrude "Extrusão20" cut sketch "Esboço17" against normal blind 10 contours A0 | A1 | A2 | A3
thread "Rosca4"
thread "Rosca5"
sketch "Esboço22" plane through (0, 0, 136.3) normal (0, 0, 1) x (-1, 0, 0)
  line L0 (2.5, 36.9154) -> (2.5, 34.5)
  arc A0 (-2.5, 34.5) -> (2.5, 34.5) centre (0, 34.5) ccw
  line L1 (-2.5, 34.5) -> (-2.5, 36.9154)
  arc A1 (-2.5, 36.9154) -> (-8, 36.1248) centre (0, 0) ccw
  line L2 (-8, 36.1248) -> (-8, -36.1248)
  arc A2 (-8, -36.1248) -> (-2.5, -36.9154) centre (0, 0) ccw
  line L3 (-2.5, -36.9154) -> (-2.5, -34.5)
  arc A3 (2.5, -34.5) -> (-2.5, -34.5) centre (0, -34.5) ccw
  line L4 (2.5, -34.5) -> (2.5, -36.9154)
  arc A4 (2.5, -36.9154) -> (8, -36.1248) centre (0, 0) ccw
  line L5 (8, -36.1248) -> (8, 36.1248)
  arc A5 (8, 36.1248) -> (2.5, 36.9154) centre (0, 0) ccw
  line L6 (0, 0) -> (-21, 0) construction
  line L7 (0, 0) -> (0, -18) construction
  line L8 (2, -14.5) -> (-2, -14.5)
  arc A6 (-2, -14.5) -> (-2, -21.5) centre (-2, -18) ccw
  line L9 (-2, -21.5) -> (2, -21.5)
  arc A7 (2, -21.5) -> (2, -14.5) centre (2, -18) ccw
  line L10 (2, -18) -> (-2, -18) construction
  arc A8 (-2, 21.5) -> (-2, 14.5) centre (-2, 18) ccw
  line L11 (2, 14.5) -> (-2, 14.5)
  arc A9 (2, 14.5) -> (2, 21.5) centre (2, 18) ccw
  line L12 (-2, 21.5) -> (2, 21.5)
  circle A10 centre (0, 9.5) radius 1.5
  line L13 (2, 18) -> (-2, 18) construction
  circle A11 centre (0, 26.5) radius 1.5
  circle A12 centre (0, -9.5) radius 1.5
  circle A13 centre (0, -26.5) radius 1.5
  point P0 (0, -18)
  dimension "d191" = 18
  dimension "d195" = 2
  dimension "d196" = 3.5
  dimension "d204" = 3
  dimension "d205" = 8.5
extrude "Extrusão28" cut sketch "Esboço22" against normal blind 5 contours L8 A6 L9 A7 | A8 L11 A9 L12 | A10 | A11 | A12 | A13
sketch "Esboço23" plane through (0, 0, 45.7) normal (0, 0, -1) x (1, 0, 0)
  line L0 (36.9154, -2.5) -> (34.5, -2.5)
  arc A0 (34.5, 2.5) -> (34.5, -2.5) centre (34.5, 0) ccw
  line L1 (34.5, 2.5) -> (36.9154, 2.5)
  arc A1 (36.9154, 2.5) -> (36.1248, 8) centre (0, 0) ccw
  line L2 (36.1248, 8) -> (-36.1248, 8)
  arc A2 (-36.1248, 8) -> (-36.9154, 2.5) centre (0, 0) ccw
  line L3 (-36.9154, 2.5) -> (-34.5, 2.5)
  arc A3 (-34.5, -2.5) -> (-34.5, 2.5) centre (-34.5, 0) ccw
  line L4 (-34.5, -2.5) -> (-36.9154, -2.5)
  arc A4 (-36.9154, -2.5) -> (-36.1248, -8) centre (0, 0) ccw
  line L5 (-36.1248, -8) -> (36.1248, -8)
  arc A5 (36.1248, -8) -> (36.9154, -2.5) centre (0, 0) ccw
  line L6 (0, 0) -> (0, -19) construction
  line L7 (0, 0) -> (18, 0)
  line L8 (14.5, 2.5) -> (14.5, -2.5)
  arc A6 (14.5, -2.5) -> (21.5, -2.5) centre (18, -2.5) ccw
  line L9 (21.5, -2.5) -> (21.5, 2.5)
  arc A7 (21.5, 2.5) -> (14.5, 2.5) centre (18, 2.5) ccw
  line L10 (18, 2.5) -> (18, -2.5) construction
  line L11 (-14.5, 2.5) -> (-14.5, -2.5)
  arc A8 (-14.5, 2.5) -> (-21.5, 2.5) centre (-18, 2.5) ccw
  line L12 (-21.5, -2.5) -> (-21.5, 2.5)
  arc A9 (-21.5, -2.5) -> (-14.5, -2.5) centre (-18, -2.5) ccw
  circle A10 centre (9.5, 0) radius 1.5
  circle A11 centre (26.5, 0) radius 1.5
  circle A12 centre (-9.5, 0) radius 1.5
  circle A13 centre (-26.5, 0) radius 1.5
  point P0 (18, 0)
  dimension "d199" = 3.5
  dimension "d200" = 5
  dimension "d201" = 18
  dimension "d206" = 3
  dimension "d207" = 8.5
extrude "Extrusão29" cut sketch "Esboço23" against normal blind 10 contours L7 A10 | L8 A6 L9 A7 | L7 A10 | L11 A8 L12 A9 | A11 | A12 | A13
ref_plane "Plano de trabalho12" through (0, 0, 106.3) normal (0, 0, 1) x (1, 0, 0)
sketch "Esboço24" plane through (0, 0, 106.3) normal (0, 0, 1) x (1, 0, 0)
  line L0 (0, 0) -> (28.1868, 0) construction
  line L1 (16, 0) -> (16, 33.3617)
  circle A0 centre (0, 0) radius 37
  line L2 (16, 0) -> (16, -33.3617)
  line L3 (0, 0) -> (0, 19.3) construction
  line L4 (-16, 0) -> (-16, 33.3617)
  line L5 (-16, 0) -> (-16, -33.3617)
  line L6 (-2, 6.8) -> (2, 6.8)
  arc A1 (2, 6.8) -> (2, 31.8) centre (2, 19.3) ccw
  line L7 (2, 31.8) -> (-2, 31.8)
  arc A2 (-2, 31.8) -> (-2, 6.8) centre (-2, 19.3) ccw
  line L8 (-2, 19.3) -> (2, 19.3) construction
  arc A3 (2, -31.8) -> (2, -6.8) centre (2, -19.3) ccw
  arc A4 (-2, -6.8) -> (-2, -31.8) centre (-2, -19.3) ccw
  line L9 (-2, -6.8) -> (2, -6.8)
  line L10 (2, -31.8) -> (-2, -31.8)
  circle A5 centre (0, 34.5) radius 1.5
  circle A6 centre (0, -34.5) radius 1.5
  point P0 (0, 19.3)
  dimension "d209" = 16
  dimension "d210" = 12.5
  dimension "d211" = 4
  dimension "d212" = 19.3
  dimension "d215" = 3
  dimension "d216" = 34.5
ref_plane "Plano de trabalho13" through (0, 0, 55.7) normal (0, 0, -1) x (-1, 0, 0)
ref_plane "Plano de trabalho14" through (0, 0, 60) normal (0, 0, 1) x (1, 0, 0)
sketch "Esboço25" plane through (0, 0, 55.7) normal (0, 0, -1) x (1, 0, 0)
  line L0 (-33.3617, 16) -> (33.3617, 16)
  circle A0 centre (0, 0) radius 37
  line L1 (0, 0) -> (-19.3, 0) construction
  line L2 (-33.3617, -16) -> (33.3617, -16)
  line L3 (-6.8, -2) -> (-6.8, 2)
  arc A1 (-6.8, 2) -> (-31.8, 2) centre (-19.3, 2) ccw
  line L4 (-31.8, 2) -> (-31.8, -2)
  arc A2 (-31.8, -2) -> (-6.8, -2) centre (-19.3, -2) ccw
  line L5 (-19.3, -2) -> (-19.3, 2) construction
  circle A3 centre (-34.5, 0) radius 1.5
  line L6 (0, 0) -> (0, -12) construction
  arc A4 (31.8, 2) -> (6.8, 2) centre (19.3, 2) ccw
  line L7 (6.8, -2) -> (6.8, 2)
  arc A5 (6.8, -2) -> (31.8, -2) centre (19.3, -2) ccw
  circle A6 centre (34.5, 0) radius 1.5
  line L8 (31.8, 2) -> (31.8, -2)
  point P0 (-19.3, 0)
  dimension "d219" = 16
  dimension "d220" = 12.5
  dimension "d221" = 4
  dimension "d222" = 19.3
  dimension "d224" = 34.5
  dimension "d225" = 3
ref_plane "Plano de trabalho15" through (0, 0, 10) normal (0, 0, 1) x (1, 0, 0)
ref_plane "Plano de trabalho16" through (0, 0, 20) normal (0, 0, 1) x (1, 0, 0)
sketch "Esboço26" plane through (0, 0, 20) normal (0, 0, 1) x (1, 0, 0)
  circle A0 centre (0, 0) radius 46.1575
extrude "Extrusão32" cut sketch "Esboço26" along normal blind 200
sketch "Esboço27" plane through (0, 0, 10) normal (0, 0, 1) x (1, 0, 0)
  circle A0 centre (0, 0) radius 46.2512
extrude "Extrusão33" cut sketch "Esboço27" against normal blind 100
